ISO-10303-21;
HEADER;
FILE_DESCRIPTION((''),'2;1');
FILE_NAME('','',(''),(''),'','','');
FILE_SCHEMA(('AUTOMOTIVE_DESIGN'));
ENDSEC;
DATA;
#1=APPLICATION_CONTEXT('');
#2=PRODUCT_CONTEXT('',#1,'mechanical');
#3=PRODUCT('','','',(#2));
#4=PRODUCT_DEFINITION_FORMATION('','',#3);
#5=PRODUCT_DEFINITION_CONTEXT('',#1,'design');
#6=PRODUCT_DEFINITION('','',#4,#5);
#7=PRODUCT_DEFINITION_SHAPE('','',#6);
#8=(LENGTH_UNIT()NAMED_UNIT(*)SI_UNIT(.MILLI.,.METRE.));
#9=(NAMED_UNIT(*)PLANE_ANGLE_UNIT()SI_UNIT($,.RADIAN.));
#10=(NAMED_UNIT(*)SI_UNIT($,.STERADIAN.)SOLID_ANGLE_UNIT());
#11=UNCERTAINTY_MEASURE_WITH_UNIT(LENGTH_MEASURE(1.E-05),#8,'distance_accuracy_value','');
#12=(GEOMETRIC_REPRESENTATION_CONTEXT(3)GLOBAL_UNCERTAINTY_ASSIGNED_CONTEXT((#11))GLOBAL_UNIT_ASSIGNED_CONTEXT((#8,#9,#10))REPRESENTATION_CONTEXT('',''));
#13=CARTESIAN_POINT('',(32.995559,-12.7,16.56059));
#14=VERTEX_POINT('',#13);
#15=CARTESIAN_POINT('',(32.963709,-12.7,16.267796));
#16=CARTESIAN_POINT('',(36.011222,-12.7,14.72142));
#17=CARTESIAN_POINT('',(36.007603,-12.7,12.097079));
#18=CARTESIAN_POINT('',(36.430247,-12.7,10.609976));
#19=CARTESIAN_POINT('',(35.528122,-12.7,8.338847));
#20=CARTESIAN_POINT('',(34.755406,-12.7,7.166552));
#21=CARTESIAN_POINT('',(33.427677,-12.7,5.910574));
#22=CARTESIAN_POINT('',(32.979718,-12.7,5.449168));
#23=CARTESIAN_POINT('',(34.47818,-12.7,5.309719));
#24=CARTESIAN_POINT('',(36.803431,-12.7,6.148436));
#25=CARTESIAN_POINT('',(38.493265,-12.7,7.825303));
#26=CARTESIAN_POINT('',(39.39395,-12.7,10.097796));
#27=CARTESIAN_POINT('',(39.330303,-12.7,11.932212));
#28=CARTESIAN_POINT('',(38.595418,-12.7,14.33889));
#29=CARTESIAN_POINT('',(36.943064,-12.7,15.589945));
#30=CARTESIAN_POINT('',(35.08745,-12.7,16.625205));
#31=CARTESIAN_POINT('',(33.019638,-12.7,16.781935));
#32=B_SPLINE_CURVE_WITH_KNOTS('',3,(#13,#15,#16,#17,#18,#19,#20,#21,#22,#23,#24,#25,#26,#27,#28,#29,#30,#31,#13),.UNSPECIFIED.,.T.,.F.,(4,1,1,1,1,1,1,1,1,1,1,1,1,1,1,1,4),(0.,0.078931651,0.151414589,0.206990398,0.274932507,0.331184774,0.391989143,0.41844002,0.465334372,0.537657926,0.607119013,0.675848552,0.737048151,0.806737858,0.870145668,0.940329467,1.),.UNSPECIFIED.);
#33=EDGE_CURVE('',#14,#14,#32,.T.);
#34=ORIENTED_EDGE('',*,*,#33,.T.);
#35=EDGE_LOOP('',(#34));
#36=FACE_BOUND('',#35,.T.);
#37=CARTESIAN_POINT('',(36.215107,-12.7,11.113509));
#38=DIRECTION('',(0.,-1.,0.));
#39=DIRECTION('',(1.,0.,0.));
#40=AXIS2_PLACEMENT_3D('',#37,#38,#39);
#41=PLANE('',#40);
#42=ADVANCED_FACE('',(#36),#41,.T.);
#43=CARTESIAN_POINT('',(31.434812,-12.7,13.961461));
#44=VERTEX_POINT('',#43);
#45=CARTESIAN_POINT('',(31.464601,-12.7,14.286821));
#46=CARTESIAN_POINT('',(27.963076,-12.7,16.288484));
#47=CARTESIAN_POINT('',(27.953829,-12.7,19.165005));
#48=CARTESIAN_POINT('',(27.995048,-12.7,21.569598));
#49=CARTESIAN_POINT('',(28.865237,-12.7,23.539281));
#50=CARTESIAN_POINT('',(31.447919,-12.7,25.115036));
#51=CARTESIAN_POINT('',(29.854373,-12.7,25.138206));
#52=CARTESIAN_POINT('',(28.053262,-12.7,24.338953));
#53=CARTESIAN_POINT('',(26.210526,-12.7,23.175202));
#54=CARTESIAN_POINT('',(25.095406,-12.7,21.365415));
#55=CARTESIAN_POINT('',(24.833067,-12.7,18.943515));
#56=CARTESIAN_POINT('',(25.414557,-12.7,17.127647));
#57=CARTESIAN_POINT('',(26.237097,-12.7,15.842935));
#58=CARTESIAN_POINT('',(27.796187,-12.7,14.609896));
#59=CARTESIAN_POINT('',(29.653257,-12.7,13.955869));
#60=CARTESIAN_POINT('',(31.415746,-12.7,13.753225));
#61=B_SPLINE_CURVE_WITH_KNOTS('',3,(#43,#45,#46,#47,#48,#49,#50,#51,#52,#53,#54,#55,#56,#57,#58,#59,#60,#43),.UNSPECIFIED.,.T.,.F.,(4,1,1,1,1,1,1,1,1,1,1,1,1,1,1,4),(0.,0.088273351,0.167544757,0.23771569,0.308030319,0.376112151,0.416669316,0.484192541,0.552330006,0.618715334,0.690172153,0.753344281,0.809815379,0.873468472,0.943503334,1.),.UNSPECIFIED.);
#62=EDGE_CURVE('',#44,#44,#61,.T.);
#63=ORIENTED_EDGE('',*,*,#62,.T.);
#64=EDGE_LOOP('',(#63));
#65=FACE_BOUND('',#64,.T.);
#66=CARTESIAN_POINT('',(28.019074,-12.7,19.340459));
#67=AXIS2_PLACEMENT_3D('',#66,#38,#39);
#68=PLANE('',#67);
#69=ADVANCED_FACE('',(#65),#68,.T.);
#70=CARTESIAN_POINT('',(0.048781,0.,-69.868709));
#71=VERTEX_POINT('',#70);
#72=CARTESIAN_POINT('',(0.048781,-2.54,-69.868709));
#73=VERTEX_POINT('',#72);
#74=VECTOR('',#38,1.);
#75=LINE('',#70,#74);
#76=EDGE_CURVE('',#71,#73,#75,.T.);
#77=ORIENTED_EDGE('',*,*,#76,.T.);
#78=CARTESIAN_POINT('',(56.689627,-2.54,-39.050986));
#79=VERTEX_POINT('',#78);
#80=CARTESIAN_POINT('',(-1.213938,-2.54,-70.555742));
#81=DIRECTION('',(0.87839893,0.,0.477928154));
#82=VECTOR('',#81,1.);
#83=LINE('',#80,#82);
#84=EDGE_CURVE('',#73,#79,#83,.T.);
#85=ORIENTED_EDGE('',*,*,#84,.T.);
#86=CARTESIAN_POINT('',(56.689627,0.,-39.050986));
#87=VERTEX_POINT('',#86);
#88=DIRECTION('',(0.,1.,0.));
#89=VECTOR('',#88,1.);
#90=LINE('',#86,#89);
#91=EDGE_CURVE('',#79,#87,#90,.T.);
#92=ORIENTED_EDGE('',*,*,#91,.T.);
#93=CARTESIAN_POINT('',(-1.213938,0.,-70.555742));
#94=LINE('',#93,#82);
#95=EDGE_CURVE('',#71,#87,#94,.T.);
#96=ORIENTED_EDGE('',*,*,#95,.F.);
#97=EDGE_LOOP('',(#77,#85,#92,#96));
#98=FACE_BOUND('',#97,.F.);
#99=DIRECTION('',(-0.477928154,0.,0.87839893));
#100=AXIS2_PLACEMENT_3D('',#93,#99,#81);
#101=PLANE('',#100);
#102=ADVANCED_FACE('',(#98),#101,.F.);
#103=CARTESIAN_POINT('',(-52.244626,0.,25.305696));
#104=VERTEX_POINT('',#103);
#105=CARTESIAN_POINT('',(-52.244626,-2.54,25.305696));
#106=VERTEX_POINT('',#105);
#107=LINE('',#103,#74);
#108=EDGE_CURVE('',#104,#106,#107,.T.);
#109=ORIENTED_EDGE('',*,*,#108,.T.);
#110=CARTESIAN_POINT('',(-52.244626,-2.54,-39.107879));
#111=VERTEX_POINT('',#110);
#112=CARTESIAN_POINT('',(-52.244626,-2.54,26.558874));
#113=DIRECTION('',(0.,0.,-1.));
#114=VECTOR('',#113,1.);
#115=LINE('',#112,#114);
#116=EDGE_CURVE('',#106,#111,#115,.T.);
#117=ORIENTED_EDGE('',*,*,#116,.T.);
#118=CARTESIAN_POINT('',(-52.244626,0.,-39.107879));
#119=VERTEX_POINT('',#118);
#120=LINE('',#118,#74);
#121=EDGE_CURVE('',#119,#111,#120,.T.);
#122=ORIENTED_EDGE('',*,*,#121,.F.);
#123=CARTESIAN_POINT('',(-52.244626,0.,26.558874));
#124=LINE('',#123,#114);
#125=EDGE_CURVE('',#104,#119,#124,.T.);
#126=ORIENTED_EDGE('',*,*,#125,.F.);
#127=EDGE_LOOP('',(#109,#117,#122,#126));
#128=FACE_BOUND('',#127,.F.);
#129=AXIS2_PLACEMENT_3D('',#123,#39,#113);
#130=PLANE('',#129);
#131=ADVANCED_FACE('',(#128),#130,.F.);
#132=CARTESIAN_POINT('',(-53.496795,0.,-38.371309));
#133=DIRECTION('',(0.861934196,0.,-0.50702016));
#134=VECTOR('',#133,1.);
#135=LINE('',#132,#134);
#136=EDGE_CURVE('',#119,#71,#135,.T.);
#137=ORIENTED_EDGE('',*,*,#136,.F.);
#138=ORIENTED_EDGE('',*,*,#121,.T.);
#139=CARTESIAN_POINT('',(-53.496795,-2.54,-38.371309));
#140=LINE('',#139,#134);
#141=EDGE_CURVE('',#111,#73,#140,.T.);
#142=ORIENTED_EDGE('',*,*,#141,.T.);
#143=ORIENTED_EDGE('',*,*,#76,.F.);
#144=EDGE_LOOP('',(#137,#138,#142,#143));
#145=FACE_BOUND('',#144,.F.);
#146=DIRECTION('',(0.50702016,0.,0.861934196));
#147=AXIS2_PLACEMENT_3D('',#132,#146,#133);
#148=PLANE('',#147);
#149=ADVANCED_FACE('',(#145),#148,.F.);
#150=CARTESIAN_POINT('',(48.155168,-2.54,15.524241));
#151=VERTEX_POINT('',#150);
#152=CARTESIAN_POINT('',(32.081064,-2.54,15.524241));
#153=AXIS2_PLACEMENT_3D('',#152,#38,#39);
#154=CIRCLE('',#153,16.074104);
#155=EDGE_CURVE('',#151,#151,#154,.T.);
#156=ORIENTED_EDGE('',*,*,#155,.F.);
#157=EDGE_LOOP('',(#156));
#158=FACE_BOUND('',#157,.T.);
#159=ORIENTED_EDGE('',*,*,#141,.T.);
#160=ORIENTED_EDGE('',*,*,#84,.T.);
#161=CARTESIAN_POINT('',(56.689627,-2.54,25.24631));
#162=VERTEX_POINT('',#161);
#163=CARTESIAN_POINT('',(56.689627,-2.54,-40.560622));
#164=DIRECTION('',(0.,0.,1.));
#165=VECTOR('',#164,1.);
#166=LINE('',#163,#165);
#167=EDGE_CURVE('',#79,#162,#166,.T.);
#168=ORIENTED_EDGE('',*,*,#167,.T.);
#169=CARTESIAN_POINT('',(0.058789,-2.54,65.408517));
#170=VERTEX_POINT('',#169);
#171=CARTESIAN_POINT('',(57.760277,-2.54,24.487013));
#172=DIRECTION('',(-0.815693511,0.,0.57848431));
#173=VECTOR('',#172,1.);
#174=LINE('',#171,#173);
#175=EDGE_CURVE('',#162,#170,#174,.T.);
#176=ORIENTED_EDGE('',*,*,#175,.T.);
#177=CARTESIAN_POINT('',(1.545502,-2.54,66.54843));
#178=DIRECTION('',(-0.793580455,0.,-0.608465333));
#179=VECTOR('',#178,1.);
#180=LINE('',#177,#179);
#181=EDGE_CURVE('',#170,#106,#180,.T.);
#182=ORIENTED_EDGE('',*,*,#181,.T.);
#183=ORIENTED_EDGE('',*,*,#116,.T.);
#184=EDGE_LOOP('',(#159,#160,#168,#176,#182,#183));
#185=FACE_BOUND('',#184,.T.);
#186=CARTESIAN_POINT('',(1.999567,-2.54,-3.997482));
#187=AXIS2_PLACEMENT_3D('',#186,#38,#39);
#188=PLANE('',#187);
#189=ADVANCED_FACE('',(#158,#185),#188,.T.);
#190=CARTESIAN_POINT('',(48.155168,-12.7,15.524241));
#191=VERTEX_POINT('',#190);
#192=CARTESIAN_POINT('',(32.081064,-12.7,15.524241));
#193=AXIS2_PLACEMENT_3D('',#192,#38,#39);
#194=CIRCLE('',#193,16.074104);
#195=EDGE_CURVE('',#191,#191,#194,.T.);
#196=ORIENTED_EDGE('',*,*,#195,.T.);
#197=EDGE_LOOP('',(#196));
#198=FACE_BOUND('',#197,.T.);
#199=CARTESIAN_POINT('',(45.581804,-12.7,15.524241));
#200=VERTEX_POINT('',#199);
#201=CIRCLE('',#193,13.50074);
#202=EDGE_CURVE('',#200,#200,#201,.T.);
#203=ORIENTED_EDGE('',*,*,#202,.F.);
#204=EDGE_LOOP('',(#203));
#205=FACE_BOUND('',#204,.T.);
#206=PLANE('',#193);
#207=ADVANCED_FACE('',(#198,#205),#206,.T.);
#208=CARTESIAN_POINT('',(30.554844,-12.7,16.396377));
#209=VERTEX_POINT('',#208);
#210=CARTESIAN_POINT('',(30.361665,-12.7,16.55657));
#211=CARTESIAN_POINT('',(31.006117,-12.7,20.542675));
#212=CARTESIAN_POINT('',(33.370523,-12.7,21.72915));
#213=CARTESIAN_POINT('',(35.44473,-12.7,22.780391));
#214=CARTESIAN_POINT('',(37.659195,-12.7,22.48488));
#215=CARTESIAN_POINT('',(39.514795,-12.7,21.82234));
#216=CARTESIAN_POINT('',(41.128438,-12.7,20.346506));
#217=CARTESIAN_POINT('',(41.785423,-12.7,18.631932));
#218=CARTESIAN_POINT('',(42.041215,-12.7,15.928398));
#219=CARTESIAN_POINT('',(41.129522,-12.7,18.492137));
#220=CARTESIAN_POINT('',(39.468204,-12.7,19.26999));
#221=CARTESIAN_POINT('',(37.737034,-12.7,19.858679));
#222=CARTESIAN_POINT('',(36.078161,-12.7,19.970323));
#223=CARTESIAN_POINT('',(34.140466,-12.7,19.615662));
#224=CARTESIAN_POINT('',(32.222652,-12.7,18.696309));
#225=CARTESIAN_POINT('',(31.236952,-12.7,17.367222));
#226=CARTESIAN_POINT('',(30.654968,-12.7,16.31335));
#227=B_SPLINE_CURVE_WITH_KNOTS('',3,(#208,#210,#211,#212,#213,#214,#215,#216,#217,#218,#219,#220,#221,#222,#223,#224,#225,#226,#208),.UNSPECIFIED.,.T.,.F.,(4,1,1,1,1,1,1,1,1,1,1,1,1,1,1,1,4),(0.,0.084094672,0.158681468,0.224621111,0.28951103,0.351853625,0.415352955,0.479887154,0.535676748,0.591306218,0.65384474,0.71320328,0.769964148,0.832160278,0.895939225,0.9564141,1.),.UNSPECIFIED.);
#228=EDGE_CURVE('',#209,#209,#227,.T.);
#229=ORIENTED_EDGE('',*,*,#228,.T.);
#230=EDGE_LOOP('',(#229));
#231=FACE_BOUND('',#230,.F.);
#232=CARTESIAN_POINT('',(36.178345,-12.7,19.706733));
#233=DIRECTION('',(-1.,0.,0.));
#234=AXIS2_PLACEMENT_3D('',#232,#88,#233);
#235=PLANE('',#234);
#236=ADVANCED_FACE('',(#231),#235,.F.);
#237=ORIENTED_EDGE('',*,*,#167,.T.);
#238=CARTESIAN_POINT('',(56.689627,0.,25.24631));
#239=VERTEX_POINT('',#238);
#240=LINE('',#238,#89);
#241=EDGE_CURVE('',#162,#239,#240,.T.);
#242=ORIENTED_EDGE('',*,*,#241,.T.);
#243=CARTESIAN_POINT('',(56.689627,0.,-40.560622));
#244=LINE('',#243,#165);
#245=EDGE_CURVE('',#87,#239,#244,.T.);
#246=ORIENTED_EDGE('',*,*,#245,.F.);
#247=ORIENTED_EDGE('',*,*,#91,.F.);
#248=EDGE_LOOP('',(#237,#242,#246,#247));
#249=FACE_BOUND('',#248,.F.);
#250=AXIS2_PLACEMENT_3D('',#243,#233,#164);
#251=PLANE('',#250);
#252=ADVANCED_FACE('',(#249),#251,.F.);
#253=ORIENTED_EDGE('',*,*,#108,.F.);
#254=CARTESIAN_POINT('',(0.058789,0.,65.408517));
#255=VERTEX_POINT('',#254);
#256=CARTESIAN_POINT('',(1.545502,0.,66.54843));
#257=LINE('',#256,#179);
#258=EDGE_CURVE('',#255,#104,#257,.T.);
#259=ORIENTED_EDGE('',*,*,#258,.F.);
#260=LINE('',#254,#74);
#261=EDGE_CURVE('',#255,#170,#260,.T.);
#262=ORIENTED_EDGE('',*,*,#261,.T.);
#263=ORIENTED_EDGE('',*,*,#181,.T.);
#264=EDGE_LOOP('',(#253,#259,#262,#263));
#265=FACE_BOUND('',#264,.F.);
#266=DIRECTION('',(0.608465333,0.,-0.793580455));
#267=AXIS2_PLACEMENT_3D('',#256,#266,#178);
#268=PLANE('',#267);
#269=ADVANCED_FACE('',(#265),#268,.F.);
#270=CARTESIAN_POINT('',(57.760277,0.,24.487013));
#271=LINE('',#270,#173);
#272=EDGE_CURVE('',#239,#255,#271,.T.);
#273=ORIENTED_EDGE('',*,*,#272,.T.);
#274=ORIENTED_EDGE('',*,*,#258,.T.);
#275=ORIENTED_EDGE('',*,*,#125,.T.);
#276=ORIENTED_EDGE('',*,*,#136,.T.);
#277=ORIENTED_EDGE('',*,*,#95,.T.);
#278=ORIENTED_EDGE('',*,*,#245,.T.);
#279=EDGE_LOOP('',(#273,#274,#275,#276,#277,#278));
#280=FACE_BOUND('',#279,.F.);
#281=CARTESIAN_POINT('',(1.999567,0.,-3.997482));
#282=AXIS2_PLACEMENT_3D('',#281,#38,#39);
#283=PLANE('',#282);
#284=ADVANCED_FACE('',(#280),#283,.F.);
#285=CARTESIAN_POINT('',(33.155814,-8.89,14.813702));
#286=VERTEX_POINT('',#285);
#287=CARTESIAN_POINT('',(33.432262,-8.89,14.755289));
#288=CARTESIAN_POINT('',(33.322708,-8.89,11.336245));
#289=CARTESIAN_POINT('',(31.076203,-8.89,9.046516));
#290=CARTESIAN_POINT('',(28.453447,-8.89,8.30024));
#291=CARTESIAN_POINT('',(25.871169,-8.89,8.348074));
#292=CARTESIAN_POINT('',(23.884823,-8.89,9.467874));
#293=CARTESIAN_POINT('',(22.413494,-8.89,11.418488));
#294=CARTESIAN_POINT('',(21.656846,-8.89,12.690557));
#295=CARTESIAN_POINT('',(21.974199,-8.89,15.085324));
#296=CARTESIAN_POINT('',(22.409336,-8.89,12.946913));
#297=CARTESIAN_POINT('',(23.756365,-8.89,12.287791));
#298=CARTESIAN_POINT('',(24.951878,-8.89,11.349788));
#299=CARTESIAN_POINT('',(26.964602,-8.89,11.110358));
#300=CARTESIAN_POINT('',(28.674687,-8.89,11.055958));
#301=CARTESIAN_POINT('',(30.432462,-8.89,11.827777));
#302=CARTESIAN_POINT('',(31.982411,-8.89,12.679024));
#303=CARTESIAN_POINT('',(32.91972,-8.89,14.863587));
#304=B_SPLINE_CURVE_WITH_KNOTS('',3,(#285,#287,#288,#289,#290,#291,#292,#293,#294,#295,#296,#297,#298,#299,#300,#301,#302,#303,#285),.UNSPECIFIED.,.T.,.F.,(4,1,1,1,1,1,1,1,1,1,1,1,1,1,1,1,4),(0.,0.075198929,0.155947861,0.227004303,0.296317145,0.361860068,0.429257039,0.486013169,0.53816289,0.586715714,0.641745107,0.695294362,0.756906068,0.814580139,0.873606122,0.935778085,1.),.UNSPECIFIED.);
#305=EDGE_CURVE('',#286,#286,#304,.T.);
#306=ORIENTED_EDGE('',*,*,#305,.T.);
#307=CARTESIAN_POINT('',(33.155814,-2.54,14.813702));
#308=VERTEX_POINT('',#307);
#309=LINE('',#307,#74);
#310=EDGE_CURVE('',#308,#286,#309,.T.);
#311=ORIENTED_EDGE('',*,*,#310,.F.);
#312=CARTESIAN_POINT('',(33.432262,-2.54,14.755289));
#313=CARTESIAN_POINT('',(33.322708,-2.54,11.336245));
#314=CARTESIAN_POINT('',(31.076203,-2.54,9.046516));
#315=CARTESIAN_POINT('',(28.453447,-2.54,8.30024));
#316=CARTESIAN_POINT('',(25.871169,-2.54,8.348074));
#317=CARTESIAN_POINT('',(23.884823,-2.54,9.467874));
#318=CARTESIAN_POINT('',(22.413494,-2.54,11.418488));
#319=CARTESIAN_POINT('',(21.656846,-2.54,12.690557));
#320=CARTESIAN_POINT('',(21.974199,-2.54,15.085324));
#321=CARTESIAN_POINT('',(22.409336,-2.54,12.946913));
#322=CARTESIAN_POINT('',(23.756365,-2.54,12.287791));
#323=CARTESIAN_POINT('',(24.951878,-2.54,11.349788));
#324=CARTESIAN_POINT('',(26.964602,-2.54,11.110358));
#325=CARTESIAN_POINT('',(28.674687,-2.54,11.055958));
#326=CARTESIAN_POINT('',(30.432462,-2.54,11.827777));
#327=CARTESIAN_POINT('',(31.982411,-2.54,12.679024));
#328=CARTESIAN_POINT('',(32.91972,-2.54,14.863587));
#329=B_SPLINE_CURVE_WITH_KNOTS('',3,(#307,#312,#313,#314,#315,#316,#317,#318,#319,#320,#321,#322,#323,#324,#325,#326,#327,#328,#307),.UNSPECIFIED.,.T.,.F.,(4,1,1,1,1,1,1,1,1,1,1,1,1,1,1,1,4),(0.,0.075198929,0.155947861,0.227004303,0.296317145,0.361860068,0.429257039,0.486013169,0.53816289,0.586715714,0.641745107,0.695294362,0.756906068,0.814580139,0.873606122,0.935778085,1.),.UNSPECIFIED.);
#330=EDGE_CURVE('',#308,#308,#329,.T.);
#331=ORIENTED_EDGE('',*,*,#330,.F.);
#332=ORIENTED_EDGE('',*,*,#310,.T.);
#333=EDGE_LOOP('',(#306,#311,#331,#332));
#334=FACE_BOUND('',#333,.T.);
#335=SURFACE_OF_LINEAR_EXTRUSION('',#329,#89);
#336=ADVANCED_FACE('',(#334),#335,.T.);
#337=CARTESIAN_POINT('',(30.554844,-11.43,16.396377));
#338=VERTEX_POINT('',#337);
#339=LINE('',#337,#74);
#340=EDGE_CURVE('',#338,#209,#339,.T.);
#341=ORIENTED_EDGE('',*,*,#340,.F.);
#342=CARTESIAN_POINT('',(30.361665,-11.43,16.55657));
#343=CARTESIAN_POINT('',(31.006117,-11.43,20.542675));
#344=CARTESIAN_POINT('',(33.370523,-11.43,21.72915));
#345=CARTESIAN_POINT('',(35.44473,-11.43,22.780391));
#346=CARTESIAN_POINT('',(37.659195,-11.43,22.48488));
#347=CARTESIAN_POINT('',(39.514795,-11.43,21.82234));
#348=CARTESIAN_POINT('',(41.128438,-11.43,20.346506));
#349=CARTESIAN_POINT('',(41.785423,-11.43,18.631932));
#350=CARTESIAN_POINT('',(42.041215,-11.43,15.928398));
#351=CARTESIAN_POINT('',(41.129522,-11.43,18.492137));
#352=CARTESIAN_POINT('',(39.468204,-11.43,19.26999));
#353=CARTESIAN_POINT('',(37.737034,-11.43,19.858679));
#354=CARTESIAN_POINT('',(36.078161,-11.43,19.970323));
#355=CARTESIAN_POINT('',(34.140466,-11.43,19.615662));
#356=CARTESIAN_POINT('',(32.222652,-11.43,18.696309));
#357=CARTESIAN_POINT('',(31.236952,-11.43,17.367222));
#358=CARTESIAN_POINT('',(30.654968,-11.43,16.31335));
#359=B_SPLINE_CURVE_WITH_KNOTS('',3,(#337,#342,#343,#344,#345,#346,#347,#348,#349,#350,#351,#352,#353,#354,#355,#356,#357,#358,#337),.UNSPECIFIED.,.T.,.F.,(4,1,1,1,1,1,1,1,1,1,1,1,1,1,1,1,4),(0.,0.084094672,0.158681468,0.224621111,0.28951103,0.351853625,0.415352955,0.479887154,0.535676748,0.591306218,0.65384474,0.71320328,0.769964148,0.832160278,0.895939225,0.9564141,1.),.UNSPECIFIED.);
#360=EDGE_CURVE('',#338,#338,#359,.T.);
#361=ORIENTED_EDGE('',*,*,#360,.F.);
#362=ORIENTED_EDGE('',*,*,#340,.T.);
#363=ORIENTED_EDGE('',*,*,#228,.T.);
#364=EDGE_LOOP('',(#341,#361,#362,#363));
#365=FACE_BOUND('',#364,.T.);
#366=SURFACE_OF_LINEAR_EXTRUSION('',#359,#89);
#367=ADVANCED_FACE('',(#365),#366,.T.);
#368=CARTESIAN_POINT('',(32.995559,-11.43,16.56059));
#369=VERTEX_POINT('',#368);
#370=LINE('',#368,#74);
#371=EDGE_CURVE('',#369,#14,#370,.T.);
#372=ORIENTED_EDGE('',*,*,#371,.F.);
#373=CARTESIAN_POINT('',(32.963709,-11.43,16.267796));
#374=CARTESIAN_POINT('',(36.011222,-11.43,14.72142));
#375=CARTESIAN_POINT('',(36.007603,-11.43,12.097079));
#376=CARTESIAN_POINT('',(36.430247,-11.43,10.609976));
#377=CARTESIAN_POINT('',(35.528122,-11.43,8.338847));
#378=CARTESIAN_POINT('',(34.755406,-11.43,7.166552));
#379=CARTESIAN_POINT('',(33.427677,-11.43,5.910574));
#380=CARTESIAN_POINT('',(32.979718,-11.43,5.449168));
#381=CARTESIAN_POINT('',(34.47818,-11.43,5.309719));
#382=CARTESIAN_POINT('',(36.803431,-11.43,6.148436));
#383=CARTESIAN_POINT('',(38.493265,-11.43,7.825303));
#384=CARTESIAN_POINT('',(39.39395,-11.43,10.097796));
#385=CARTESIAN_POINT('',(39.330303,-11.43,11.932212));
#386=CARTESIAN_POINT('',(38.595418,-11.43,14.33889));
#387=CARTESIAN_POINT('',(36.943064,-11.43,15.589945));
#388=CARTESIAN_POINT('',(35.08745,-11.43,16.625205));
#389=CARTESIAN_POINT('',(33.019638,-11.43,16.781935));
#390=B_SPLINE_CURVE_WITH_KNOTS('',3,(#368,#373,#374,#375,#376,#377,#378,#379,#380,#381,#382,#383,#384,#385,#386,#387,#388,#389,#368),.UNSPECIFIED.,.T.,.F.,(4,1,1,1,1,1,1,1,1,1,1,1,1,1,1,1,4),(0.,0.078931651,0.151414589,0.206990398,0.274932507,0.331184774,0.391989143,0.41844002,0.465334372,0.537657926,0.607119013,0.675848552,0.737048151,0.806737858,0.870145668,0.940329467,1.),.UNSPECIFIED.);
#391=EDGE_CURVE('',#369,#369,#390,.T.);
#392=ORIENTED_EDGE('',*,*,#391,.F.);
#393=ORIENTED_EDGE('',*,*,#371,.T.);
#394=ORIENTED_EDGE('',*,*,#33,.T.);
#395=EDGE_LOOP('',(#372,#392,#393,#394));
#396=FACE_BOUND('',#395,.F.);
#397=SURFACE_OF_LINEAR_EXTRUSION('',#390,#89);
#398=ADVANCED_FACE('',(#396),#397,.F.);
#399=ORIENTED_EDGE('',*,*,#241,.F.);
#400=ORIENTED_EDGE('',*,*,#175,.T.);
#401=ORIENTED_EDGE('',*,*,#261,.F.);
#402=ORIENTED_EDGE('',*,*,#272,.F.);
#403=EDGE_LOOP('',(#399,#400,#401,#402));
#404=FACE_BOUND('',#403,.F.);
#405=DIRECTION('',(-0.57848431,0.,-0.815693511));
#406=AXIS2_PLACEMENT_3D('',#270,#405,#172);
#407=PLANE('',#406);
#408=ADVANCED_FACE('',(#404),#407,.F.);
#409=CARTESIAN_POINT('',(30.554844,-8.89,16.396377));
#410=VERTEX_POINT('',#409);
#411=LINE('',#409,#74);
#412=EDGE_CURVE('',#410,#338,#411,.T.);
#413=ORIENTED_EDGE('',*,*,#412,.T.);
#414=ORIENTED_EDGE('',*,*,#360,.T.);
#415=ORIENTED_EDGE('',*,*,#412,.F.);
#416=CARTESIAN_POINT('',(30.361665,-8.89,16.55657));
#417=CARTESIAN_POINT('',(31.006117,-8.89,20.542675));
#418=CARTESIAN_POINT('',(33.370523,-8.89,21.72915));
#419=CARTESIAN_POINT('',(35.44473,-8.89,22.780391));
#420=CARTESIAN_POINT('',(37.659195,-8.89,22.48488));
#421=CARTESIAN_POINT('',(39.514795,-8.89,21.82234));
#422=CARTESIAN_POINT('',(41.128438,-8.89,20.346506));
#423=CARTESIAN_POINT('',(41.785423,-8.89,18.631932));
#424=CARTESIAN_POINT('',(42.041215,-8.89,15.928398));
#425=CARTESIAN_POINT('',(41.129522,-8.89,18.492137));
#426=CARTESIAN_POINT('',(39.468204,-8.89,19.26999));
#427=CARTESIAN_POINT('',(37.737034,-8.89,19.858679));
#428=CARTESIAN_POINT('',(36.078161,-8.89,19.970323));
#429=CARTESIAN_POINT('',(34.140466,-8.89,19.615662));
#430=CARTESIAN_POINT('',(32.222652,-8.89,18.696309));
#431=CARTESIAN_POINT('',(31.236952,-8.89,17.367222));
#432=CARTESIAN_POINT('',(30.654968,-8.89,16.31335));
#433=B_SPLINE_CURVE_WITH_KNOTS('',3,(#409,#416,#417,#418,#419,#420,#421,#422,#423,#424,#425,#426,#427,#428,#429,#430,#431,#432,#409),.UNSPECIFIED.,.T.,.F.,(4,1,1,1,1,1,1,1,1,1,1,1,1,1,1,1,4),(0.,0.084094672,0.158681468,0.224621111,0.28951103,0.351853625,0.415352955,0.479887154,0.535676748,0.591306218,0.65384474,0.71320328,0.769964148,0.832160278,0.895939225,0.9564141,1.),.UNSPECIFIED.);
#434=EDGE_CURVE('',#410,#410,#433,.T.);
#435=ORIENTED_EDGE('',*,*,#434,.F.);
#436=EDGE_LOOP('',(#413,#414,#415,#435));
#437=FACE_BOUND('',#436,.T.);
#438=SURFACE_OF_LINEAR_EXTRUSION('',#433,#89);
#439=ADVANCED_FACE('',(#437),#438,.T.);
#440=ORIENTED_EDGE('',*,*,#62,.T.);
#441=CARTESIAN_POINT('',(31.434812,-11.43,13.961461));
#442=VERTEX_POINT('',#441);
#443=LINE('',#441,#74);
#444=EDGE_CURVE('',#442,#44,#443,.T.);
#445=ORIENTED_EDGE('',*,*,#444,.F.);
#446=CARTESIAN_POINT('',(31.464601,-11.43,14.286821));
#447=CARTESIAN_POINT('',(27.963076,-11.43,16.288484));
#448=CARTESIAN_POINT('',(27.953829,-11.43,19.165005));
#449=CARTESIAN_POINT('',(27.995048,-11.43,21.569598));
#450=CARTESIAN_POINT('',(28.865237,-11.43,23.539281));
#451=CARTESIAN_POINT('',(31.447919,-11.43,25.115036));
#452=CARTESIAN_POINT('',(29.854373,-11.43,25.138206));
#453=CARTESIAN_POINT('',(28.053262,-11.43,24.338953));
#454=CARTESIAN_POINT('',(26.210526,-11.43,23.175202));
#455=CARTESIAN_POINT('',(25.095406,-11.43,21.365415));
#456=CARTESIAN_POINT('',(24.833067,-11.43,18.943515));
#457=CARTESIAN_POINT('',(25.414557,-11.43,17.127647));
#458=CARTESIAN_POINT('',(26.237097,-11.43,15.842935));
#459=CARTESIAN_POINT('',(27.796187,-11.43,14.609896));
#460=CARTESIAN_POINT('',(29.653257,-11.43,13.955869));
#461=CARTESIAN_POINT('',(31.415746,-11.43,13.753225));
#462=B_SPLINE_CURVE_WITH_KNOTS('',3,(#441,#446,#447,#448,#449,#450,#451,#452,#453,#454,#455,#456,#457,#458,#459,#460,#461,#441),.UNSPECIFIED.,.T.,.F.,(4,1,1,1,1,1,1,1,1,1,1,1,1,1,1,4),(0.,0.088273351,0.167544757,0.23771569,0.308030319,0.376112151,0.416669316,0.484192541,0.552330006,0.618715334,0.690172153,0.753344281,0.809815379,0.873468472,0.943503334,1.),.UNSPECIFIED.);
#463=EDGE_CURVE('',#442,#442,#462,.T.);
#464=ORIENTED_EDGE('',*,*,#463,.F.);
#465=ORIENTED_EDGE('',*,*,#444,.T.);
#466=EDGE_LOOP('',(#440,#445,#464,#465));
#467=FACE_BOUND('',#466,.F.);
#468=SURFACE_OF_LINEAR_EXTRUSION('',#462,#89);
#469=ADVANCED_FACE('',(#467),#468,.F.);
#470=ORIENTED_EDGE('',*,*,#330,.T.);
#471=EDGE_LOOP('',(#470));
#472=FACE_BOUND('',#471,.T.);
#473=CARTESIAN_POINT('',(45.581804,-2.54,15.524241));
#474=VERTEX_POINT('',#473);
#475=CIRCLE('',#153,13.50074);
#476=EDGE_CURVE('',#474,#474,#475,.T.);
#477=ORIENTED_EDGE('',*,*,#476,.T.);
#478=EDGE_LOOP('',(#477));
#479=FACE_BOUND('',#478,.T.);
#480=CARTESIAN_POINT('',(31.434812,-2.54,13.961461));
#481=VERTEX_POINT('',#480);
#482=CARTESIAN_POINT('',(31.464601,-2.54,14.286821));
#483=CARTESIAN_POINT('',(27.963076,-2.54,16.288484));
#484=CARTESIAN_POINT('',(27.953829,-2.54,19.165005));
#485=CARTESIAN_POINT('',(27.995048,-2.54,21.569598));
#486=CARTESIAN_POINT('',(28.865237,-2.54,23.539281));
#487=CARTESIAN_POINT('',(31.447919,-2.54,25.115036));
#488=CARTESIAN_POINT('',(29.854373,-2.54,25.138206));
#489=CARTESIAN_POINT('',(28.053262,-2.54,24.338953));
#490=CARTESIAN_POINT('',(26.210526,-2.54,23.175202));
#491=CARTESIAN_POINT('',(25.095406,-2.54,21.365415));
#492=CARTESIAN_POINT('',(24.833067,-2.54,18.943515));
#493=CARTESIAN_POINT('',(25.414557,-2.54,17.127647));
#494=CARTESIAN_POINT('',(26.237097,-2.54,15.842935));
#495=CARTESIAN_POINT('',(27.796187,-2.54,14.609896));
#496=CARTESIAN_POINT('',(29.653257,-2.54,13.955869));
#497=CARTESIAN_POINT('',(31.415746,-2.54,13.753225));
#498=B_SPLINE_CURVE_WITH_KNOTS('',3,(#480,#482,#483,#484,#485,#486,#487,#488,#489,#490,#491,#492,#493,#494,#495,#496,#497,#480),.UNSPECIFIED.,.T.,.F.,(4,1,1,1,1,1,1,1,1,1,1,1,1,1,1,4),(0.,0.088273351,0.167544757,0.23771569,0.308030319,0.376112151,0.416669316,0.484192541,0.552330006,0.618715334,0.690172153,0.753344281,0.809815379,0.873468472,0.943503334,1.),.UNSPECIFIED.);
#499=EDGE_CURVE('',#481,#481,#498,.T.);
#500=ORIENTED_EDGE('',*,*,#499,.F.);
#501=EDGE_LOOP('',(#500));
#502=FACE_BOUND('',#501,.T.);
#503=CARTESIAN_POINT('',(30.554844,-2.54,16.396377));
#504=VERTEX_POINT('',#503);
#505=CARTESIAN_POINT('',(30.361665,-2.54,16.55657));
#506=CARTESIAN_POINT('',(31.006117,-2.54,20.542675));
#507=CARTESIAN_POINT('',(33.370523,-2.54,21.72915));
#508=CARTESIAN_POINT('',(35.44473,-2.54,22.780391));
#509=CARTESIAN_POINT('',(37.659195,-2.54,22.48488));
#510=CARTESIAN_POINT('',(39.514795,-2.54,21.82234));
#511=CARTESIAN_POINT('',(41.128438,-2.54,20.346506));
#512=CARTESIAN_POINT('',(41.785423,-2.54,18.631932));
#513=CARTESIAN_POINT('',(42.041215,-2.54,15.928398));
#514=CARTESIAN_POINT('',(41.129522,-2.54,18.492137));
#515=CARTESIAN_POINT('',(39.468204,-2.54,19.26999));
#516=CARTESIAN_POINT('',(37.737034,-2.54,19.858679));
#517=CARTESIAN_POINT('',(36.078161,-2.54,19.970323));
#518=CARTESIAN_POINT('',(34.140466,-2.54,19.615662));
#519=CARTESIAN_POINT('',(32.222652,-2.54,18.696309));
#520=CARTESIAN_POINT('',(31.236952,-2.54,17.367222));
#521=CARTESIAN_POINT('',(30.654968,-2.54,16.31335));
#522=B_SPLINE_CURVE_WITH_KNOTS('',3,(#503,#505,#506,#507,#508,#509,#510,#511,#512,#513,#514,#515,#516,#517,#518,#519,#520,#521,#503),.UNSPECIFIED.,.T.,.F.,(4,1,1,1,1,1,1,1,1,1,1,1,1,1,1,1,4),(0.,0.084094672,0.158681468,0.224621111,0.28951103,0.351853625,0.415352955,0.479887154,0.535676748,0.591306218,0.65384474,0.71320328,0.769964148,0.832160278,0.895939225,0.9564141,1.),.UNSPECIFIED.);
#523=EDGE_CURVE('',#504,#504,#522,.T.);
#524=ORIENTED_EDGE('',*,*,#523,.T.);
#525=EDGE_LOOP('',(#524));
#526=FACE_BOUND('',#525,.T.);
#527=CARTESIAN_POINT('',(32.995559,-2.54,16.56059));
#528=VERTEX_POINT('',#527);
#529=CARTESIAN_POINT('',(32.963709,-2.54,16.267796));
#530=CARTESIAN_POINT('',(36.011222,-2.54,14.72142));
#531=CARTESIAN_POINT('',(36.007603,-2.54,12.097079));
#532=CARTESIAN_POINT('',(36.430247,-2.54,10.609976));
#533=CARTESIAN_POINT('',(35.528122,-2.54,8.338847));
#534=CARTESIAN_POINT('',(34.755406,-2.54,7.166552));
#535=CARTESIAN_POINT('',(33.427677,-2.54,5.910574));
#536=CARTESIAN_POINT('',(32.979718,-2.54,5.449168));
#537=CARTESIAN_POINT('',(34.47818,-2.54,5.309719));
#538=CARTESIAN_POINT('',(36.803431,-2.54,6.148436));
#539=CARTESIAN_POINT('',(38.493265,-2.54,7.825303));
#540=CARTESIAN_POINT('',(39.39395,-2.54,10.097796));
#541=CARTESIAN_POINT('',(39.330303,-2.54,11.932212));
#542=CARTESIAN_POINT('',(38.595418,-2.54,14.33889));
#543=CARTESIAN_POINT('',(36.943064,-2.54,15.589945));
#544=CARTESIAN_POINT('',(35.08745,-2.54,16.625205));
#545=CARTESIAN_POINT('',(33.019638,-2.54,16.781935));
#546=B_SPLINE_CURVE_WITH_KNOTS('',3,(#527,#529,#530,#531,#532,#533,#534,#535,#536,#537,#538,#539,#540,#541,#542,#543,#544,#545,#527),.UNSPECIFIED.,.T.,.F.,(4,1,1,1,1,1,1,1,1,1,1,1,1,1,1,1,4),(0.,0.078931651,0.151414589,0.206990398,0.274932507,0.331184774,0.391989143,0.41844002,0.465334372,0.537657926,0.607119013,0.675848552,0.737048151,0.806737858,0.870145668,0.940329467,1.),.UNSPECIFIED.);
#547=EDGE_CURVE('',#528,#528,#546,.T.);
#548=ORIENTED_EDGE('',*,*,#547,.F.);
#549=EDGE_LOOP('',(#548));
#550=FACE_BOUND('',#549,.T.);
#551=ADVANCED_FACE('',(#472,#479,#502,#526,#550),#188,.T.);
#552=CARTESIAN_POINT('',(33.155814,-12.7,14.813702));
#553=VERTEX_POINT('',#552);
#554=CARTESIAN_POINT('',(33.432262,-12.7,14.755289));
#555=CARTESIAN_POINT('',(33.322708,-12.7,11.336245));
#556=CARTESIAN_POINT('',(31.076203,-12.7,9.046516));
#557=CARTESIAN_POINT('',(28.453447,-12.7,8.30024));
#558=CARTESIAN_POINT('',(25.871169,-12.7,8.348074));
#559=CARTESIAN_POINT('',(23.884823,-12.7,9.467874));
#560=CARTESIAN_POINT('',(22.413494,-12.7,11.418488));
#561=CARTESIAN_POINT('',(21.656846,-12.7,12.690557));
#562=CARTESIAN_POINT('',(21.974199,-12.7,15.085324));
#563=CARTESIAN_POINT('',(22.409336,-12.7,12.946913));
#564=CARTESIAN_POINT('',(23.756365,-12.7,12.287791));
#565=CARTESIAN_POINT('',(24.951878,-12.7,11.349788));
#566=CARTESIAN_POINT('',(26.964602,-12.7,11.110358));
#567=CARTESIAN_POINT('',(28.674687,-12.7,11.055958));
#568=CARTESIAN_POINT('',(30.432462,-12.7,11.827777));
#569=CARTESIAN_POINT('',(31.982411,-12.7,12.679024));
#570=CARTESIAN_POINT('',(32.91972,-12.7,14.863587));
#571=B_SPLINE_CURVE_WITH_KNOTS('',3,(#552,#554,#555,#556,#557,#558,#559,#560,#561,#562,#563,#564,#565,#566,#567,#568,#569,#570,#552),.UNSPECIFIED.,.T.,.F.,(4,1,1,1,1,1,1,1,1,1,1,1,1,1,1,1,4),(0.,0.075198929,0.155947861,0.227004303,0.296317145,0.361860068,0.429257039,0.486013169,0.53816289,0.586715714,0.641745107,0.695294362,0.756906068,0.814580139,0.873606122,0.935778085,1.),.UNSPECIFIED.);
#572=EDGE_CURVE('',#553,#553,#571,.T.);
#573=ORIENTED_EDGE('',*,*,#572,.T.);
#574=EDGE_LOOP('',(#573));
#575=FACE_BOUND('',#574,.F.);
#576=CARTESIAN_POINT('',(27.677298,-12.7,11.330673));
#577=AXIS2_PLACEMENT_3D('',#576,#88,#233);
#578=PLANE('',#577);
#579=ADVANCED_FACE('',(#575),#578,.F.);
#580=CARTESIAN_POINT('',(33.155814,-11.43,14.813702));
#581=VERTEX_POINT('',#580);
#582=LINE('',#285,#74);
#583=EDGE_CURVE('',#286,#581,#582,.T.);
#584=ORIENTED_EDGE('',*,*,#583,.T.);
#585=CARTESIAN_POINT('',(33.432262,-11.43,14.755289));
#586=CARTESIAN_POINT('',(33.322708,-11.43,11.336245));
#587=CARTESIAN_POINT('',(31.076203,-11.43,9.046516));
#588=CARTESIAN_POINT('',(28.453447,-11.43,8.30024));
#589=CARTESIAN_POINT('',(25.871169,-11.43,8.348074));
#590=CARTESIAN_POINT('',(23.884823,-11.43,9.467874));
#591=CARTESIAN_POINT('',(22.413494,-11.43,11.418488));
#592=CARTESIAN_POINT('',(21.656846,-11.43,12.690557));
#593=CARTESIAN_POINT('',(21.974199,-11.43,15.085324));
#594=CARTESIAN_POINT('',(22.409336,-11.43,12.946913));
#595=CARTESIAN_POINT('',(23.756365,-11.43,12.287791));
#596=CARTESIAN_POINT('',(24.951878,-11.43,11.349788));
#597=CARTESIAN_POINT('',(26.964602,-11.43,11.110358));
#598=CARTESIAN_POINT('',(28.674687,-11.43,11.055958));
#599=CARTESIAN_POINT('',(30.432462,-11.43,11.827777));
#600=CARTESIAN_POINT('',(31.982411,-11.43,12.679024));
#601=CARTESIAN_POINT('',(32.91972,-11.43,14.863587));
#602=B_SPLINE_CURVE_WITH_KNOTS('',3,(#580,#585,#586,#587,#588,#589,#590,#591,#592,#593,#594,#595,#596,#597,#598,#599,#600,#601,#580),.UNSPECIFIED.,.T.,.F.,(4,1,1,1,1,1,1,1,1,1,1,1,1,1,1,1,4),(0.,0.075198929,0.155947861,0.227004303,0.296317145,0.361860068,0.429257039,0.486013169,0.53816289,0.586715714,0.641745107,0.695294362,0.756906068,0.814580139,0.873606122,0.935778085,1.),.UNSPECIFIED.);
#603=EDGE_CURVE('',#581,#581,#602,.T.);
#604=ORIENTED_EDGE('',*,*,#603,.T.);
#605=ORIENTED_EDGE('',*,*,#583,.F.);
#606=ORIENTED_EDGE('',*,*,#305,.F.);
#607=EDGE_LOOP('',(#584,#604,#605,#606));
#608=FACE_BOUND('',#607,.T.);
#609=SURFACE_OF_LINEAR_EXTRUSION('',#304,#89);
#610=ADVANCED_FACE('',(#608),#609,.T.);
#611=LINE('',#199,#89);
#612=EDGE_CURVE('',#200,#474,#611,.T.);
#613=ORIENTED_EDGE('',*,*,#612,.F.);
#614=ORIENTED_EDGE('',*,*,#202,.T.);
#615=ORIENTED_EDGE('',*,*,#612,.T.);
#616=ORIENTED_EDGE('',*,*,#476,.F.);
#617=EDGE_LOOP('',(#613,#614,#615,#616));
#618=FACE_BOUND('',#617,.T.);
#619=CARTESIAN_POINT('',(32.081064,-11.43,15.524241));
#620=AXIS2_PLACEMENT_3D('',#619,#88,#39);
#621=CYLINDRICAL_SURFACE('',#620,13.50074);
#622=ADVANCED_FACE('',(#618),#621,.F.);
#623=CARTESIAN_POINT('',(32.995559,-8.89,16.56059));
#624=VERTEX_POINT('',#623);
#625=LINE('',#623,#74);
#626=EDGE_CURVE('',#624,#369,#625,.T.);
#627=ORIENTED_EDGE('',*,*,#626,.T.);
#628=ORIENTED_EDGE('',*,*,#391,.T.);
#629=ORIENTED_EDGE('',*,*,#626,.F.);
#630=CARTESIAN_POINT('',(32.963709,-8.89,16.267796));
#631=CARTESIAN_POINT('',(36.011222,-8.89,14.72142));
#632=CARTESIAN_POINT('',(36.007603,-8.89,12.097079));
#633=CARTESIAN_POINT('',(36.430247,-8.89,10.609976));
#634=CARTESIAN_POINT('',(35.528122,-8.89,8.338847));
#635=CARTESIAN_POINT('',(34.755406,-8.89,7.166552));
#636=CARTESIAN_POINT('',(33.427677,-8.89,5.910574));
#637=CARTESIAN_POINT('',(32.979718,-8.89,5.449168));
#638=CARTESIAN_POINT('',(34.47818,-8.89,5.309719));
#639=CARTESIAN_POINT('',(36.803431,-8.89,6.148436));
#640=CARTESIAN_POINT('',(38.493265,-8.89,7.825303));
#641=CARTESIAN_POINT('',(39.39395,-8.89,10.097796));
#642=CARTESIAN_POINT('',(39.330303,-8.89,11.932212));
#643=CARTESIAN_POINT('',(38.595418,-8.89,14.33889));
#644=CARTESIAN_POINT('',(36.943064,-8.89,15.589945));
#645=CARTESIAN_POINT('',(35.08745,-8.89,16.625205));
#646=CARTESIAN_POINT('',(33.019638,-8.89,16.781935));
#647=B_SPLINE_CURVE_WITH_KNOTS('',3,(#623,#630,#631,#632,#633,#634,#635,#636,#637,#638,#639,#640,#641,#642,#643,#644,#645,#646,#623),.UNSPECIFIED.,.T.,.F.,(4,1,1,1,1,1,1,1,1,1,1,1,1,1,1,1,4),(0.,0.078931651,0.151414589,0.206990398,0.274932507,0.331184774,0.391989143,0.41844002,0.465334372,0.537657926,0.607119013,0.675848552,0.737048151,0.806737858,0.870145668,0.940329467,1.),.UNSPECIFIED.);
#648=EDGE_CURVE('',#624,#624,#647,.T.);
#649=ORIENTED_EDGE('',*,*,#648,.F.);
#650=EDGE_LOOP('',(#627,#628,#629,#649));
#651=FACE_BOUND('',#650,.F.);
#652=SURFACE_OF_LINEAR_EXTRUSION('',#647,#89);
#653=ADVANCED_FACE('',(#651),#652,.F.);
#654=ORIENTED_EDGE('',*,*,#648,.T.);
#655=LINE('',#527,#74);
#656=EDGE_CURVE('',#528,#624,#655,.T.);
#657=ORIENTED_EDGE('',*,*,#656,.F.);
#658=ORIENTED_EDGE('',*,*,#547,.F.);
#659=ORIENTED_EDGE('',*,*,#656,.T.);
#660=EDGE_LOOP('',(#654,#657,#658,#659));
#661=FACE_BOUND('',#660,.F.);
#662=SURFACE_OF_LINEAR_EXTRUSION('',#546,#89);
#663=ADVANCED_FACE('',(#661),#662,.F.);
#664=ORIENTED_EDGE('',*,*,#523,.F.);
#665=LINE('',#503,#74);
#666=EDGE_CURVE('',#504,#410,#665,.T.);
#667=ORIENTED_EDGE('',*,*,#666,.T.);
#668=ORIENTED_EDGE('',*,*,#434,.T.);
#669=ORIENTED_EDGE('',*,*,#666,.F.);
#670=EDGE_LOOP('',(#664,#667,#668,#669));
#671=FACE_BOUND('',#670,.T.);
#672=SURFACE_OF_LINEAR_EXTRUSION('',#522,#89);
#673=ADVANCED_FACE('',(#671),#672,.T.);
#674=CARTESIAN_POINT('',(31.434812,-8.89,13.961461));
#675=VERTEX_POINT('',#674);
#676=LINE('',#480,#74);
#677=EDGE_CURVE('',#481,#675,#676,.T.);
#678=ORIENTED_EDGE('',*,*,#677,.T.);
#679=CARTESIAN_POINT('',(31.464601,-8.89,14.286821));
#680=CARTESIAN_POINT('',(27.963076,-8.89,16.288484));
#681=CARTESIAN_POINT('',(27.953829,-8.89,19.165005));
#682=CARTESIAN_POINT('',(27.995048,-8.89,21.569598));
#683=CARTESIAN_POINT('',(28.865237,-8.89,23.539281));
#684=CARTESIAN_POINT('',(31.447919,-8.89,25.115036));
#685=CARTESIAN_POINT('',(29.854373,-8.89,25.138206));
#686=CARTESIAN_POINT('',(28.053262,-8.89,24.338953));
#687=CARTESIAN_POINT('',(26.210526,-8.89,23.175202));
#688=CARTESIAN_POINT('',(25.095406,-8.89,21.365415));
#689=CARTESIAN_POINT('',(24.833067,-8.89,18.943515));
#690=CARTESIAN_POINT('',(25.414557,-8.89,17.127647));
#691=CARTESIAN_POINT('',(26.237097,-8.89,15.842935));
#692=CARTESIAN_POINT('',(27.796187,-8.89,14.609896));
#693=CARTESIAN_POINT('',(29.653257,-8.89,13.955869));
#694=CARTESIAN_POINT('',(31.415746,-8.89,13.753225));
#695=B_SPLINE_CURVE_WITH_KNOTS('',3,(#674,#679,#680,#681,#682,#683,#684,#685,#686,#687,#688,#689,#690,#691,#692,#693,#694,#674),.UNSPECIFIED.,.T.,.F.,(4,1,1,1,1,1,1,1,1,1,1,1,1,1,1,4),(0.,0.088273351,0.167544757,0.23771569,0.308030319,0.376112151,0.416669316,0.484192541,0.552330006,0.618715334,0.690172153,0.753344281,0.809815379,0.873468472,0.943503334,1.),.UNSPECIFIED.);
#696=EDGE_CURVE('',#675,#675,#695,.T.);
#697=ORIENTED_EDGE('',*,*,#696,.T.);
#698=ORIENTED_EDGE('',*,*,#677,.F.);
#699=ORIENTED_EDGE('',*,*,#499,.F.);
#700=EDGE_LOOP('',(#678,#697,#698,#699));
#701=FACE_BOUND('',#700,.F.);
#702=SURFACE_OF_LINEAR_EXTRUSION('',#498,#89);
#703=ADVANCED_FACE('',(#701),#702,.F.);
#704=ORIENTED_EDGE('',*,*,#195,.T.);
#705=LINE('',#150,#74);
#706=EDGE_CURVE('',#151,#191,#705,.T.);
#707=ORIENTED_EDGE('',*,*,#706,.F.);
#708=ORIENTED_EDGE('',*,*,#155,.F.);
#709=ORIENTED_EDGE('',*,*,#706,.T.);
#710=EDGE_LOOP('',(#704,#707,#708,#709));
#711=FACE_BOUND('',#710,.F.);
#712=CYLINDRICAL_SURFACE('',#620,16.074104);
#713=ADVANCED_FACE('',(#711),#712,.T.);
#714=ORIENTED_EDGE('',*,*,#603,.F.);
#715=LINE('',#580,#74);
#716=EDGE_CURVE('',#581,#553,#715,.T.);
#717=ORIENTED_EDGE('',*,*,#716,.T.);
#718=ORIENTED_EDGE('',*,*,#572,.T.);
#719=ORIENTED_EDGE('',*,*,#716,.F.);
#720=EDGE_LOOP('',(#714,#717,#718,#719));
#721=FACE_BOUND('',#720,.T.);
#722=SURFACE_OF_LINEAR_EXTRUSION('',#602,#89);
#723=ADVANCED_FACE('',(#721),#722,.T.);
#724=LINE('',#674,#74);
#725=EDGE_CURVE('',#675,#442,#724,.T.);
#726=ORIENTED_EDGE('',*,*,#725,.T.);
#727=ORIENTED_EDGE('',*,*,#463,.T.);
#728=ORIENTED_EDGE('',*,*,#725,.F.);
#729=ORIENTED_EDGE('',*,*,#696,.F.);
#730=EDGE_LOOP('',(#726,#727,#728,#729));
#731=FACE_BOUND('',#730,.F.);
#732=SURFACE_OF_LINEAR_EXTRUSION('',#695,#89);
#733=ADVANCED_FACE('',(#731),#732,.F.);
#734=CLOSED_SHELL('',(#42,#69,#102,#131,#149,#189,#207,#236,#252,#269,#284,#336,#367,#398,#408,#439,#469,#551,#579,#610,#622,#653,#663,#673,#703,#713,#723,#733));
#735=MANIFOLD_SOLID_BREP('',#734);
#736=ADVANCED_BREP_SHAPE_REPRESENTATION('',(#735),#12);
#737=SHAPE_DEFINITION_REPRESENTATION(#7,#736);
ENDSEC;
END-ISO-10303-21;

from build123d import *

# Parameters (mm, degrees)
F1_DEPTH  = 12.7
F2_DEPTH  = 2.54
F3_DEPTH  = 7.62
F4_DEPTH  = 2.54
F5_DEPTH  = 2.54
F6_DEPTH  = 2.54
F7_DEPTH  = 2.54
F8_DEPTH  = 2.54
F9_DEPTH  = 2.54
F10_R     = 16.0741043037
F10_R_2   = 13.5007402888
F11_DEPTH = 6.35
F12_DEPTH = 2.54
F13_DEPTH = 12.7
F14_DEPTH = 15.24
F15_DEPTH = 12.7
F16_DEPTH = 7.62
F17_DEPTH = 2.54
F18_DEPTH = 1.27


with BuildPart() as f1:
    # F0 (on Front) → F1 (new body)
    with BuildSketch(Plane.XZ):
        Polygon((59.2296272516, 26.558874175), (0, 68.5641244054), (-54.7846257687, 26.558874175), (-54.7846257687, -40.5606217682), (0, -72.7868750691), (59.2296272516, -40.5606217682), align=None)
    extrude(amount=F1_DEPTH)

    # F2 (cut): a face of the model
    f2_faces = [f1.faces().sort_by_distance(p)[0] for p in [
        (1.9587071028, -12.7, -4.2659517496),
    ]]
    extrude(f2_faces, amount=-F2_DEPTH, mode=Mode.SUBTRACT)

    # F3 (cut): a face of the model
    f3_faces = [f1.faces().sort_by_distance(p)[0] for p in [
        (1.9587071028, -10.16, -4.2659517496),
    ]]
    extrude(f3_faces, amount=-F3_DEPTH, mode=Mode.SUBTRACT)

    # F4 (cut): a face of the model
    f4_faces = [f1.faces().sort_by_distance(p)[0] for p in [
        (29.6148136258, -1.27, 47.5614992902),
    ]]
    extrude(f4_faces, amount=-F4_DEPTH, mode=Mode.SUBTRACT)

    # F5 (cut): a face of the model
    f5_faces = [f1.faces().sort_by_distance(p)[0] for p in [
        (-27.3923128843, -1.27, 47.5614992902),
    ]]
    extrude(f5_faces, amount=-F5_DEPTH, mode=Mode.SUBTRACT)

    # F6 (cut): a face of the model
    f6_faces = [f1.faces().sort_by_distance(p)[0] for p in [
        (59.2296272516, -1.27, -7.0008737966),
    ]]
    extrude(f6_faces, amount=-F6_DEPTH, mode=Mode.SUBTRACT)

    # F7 (cut): a face of the model
    f7_faces = [f1.faces().sort_by_distance(p)[0] for p in [
        (-54.7846257687, -1.27, -7.0008737966),
    ]]
    extrude(f7_faces, amount=-F7_DEPTH, mode=Mode.SUBTRACT)

    # F8 (cut): a face of the model
    f8_faces = [f1.faces().sort_by_distance(p)[0] for p in [
        (-27.3923128843, -1.27, -56.6737484187),
    ]]
    extrude(f8_faces, amount=-F8_DEPTH, mode=Mode.SUBTRACT)

    # F9 (cut): a face of the model
    f9_faces = [f1.faces().sort_by_distance(p)[0] for p in [
        (29.6148136258, -1.27, -56.6737484187),
    ]]
    extrude(f9_faces, amount=-F9_DEPTH, mode=Mode.SUBTRACT)

    # F10 (on face) → F11 (join)
    with BuildSketch(Plane.XZ.offset(2.54)):
        with Locations((32.0810638368, 15.524241142)):
            Circle(F10_R)
        with Locations((32.0810638368, 15.524241142)):
            Circle(F10_R_2, mode=Mode.SUBTRACT)
        with BuildLine():
            add(Edge.make_bspline(
                [(30.5548440665, 16.3963772357), (30.3616646545, 16.55656975), (31.0061165355, 20.5426753484), (33.3705227105, 21.729150098), (35.4447298445, 22.7803910786), (37.6591947763, 22.4848804399), (39.5147950732, 21.822340052), (41.1284378782, 20.3465061226), (41.7854230162, 18.6319321788), (42.0412150618, 15.9283976425), (41.1295217088, 18.4921365894), (39.4682039078, 19.2699897069), (37.7370339311, 19.8586788922), (36.0781614891, 19.9703229243), (34.1404660113, 19.615662145), (32.2226518058, 18.6963085632), (31.2369516227, 17.3672217798), (30.6549681084, 16.3133501581), (30.5548440665, 16.3963772357)],
                knots=[0, 0, 0, 0, 0.0840946717, 0.1586814679, 0.2246211108, 0.28951103, 0.3518536247, 0.4153529552, 0.479887154, 0.5356767483, 0.5913062181, 0.6538447399, 0.71320328, 0.7699641479, 0.8321602779, 0.895939225, 0.9564141005, 1, 1, 1, 1], degree=3))
        make_face()
        with BuildLine():
            add(Edge.make_bspline(
                [(32.9955592752, 16.5605898947), (32.9637085179, 16.2677962381), (36.0112217818, 14.7214201482), (36.0076025611, 12.0970785962), (36.4302469923, 10.6099763307), (35.5281218201, 8.3388466929), (34.7554064647, 7.1665521834), (33.4276774089, 5.9105737119), (32.97971826, 5.449168431), (34.4781795587, 5.3097185497), (36.803431251, 6.1484360282), (38.4932647508, 7.825303344), (39.3939498041, 10.0977956729), (39.3303034007, 11.932212165), (38.5954181317, 14.3388903247), (36.9430638092, 15.5899451197), (35.0874499427, 16.6252054555), (33.0196377233, 16.7819352407), (32.9955592752, 16.5605898947)],
                knots=[0, 0, 0, 0, 0.0789316505, 0.1514145887, 0.206990398, 0.2749325072, 0.3311847736, 0.3919891434, 0.4184400202, 0.465334372, 0.537657926, 0.607119013, 0.6758485518, 0.7370481514, 0.8067378578, 0.8701456685, 0.9403294672, 1, 1, 1, 1], degree=3))
        make_face()
        with BuildLine():
            add(Edge.make_bspline(
                [(33.1558138132, 14.8137016222), (33.4322619457, 14.7552893511), (33.3227080783, 11.3362445278), (31.0762034508, 9.0465164485), (28.4534471429, 8.300240035), (25.871168586, 8.3480744854), (23.8848229217, 9.4678741075), (22.4134936877, 11.4184883527), (21.6568456968, 12.6905574709), (21.9741986277, 15.0853244529), (22.409336445, 12.9469132102), (23.756364648, 12.2877912926), (24.9518779323, 11.3497878854), (26.9646020733, 11.1103584833), (28.674687444, 11.0559580583), (30.4324623617, 11.8277767755), (31.9824109835, 12.6790238454), (32.9197196469, 14.8635872782), (33.1558138132, 14.8137016222)],
                knots=[0, 0, 0, 0, 0.0751989286, 0.1559478608, 0.2270043032, 0.2963171445, 0.3618600683, 0.4292570391, 0.4860131694, 0.5381628897, 0.5867157141, 0.6417451069, 0.6952943618, 0.7569060679, 0.8145801391, 0.8736061224, 0.9357780854, 1, 1, 1, 1], degree=3))
        make_face()
        with BuildLine():
            add(Edge.make_bspline(
                [(31.4348116517, 13.9614613727), (31.4646011202, 14.2868205241), (27.9630762175, 16.2884835324), (27.9538287608, 19.165005287), (27.9950477356, 21.5695977257), (28.8652371483, 23.5392810422), (31.4479192648, 25.115035851), (29.8543733909, 25.1382064195), (28.0532624441, 24.3389528661), (26.2105257247, 23.1752017752), (25.0954060281, 21.365414748), (24.8330673458, 18.9435152334), (25.4145570635, 17.1276465432), (26.2370970666, 15.8429347951), (27.7961873523, 14.6098960128), (29.6532566306, 13.955868998), (31.4157458109, 13.7532251706), (31.4348116517, 13.9614613727)],
                knots=[0, 0, 0, 0, 0.0882733513, 0.167544757, 0.2377156904, 0.3080303194, 0.3761121513, 0.4166693164, 0.4841925414, 0.5523300064, 0.6187153337, 0.6901721527, 0.7533442808, 0.8098153791, 0.8734684724, 0.9435033337, 1, 1, 1, 1], degree=3))
        make_face()
    extrude(amount=F11_DEPTH)

    # F12 (add): faces of the model
    f12_faces = [f1.faces().sort_by_distance(p)[0] for p in [
        (16.4616038593, -8.89, 15.524241142),
        (36.1032401224, -8.89, 20.3203894259),
        (36.7515211172, -8.89, 10.9565823075),
        (27.8676372045, -8.89, 10.750205013),
        (27.4459933704, -8.89, 19.2644910808),
    ]]
    extrude(f12_faces, amount=F12_DEPTH)

    # F13 (add): faces of the model
    f13_faces = [f1.faces().sort_by_distance(p)[0] for p in [
        (16.4616038593, -11.43, 15.524241142),
        (27.8676372045, -11.43, 10.750205013),
        (27.4459933704, -11.43, 19.2644910808),
        (36.1032401224, -11.43, 20.3203894259),
        (36.7515211172, -11.43, 10.9565823075),
    ]]
    extrude(f13_faces, amount=F13_DEPTH)

    # F14 (cut): faces of the model
    f14_faces = [f1.faces().sort_by_distance(p)[0] for p in [
        (16.4616038593, -24.13, 15.524241142),
        (27.4459933704, -24.13, 19.2644910808),
        (27.8676372045, -24.13, 10.750205013),
        (36.1032401224, -24.13, 20.3203894259),
        (36.7515211172, -24.13, 10.9565823075),
    ]]
    extrude(f14_faces, amount=-F14_DEPTH, mode=Mode.SUBTRACT)

    # F15 (add): faces of the model
    f15_faces = [f1.faces().sort_by_distance(p)[0] for p in [
        (16.4616038593, -8.89, 15.524241142),
        (36.1032401224, -8.89, 20.3203894259),
        (36.7515211172, -8.89, 10.9565823075),
        (27.8676372045, -8.89, 10.750205013),
        (27.4459933704, -8.89, 19.2644910808),
    ]]
    extrude(f15_faces, amount=F15_DEPTH)

    # F16 (cut): faces of the model
    f16_faces = [f1.faces().sort_by_distance(p)[0] for p in [
        (16.4616038593, -21.59, 15.524241142),
        (36.1032401224, -21.59, 20.3203894259),
        (36.7515211172, -21.59, 10.9565823075),
        (27.8676372045, -21.59, 10.750205013),
        (27.4459933704, -21.59, 19.2644910808),
    ]]
    extrude(f16_faces, amount=-F16_DEPTH, mode=Mode.SUBTRACT)

    # F17 (cut): faces of the model
    f17_faces = [f1.faces().sort_by_distance(p)[0] for p in [
        (16.4616038593, -13.97, 15.524241142),
        (27.4459933704, -13.97, 19.2644910808),
        (36.1032401224, -13.97, 20.3203894259),
        (36.7515211172, -13.97, 10.9565823075),
        (27.8676372045, -13.97, 10.750205013),
    ]]
    extrude(f17_faces, amount=-F17_DEPTH, mode=Mode.SUBTRACT)

    # F18 (add): faces of the model
    f18_faces = [f1.faces().sort_by_distance(p)[0] for p in [
        (16.4616038593, -11.43, 15.524241142),
        (36.1032401224, -11.43, 20.3203894259),
        (36.7515211172, -11.43, 10.9565823075),
        (27.4459933704, -11.43, 19.2644910808),
        (27.8676372045, -11.43, 10.750205013),
    ]]
    extrude(f18_faces, amount=F18_DEPTH)


solid = f1.part
